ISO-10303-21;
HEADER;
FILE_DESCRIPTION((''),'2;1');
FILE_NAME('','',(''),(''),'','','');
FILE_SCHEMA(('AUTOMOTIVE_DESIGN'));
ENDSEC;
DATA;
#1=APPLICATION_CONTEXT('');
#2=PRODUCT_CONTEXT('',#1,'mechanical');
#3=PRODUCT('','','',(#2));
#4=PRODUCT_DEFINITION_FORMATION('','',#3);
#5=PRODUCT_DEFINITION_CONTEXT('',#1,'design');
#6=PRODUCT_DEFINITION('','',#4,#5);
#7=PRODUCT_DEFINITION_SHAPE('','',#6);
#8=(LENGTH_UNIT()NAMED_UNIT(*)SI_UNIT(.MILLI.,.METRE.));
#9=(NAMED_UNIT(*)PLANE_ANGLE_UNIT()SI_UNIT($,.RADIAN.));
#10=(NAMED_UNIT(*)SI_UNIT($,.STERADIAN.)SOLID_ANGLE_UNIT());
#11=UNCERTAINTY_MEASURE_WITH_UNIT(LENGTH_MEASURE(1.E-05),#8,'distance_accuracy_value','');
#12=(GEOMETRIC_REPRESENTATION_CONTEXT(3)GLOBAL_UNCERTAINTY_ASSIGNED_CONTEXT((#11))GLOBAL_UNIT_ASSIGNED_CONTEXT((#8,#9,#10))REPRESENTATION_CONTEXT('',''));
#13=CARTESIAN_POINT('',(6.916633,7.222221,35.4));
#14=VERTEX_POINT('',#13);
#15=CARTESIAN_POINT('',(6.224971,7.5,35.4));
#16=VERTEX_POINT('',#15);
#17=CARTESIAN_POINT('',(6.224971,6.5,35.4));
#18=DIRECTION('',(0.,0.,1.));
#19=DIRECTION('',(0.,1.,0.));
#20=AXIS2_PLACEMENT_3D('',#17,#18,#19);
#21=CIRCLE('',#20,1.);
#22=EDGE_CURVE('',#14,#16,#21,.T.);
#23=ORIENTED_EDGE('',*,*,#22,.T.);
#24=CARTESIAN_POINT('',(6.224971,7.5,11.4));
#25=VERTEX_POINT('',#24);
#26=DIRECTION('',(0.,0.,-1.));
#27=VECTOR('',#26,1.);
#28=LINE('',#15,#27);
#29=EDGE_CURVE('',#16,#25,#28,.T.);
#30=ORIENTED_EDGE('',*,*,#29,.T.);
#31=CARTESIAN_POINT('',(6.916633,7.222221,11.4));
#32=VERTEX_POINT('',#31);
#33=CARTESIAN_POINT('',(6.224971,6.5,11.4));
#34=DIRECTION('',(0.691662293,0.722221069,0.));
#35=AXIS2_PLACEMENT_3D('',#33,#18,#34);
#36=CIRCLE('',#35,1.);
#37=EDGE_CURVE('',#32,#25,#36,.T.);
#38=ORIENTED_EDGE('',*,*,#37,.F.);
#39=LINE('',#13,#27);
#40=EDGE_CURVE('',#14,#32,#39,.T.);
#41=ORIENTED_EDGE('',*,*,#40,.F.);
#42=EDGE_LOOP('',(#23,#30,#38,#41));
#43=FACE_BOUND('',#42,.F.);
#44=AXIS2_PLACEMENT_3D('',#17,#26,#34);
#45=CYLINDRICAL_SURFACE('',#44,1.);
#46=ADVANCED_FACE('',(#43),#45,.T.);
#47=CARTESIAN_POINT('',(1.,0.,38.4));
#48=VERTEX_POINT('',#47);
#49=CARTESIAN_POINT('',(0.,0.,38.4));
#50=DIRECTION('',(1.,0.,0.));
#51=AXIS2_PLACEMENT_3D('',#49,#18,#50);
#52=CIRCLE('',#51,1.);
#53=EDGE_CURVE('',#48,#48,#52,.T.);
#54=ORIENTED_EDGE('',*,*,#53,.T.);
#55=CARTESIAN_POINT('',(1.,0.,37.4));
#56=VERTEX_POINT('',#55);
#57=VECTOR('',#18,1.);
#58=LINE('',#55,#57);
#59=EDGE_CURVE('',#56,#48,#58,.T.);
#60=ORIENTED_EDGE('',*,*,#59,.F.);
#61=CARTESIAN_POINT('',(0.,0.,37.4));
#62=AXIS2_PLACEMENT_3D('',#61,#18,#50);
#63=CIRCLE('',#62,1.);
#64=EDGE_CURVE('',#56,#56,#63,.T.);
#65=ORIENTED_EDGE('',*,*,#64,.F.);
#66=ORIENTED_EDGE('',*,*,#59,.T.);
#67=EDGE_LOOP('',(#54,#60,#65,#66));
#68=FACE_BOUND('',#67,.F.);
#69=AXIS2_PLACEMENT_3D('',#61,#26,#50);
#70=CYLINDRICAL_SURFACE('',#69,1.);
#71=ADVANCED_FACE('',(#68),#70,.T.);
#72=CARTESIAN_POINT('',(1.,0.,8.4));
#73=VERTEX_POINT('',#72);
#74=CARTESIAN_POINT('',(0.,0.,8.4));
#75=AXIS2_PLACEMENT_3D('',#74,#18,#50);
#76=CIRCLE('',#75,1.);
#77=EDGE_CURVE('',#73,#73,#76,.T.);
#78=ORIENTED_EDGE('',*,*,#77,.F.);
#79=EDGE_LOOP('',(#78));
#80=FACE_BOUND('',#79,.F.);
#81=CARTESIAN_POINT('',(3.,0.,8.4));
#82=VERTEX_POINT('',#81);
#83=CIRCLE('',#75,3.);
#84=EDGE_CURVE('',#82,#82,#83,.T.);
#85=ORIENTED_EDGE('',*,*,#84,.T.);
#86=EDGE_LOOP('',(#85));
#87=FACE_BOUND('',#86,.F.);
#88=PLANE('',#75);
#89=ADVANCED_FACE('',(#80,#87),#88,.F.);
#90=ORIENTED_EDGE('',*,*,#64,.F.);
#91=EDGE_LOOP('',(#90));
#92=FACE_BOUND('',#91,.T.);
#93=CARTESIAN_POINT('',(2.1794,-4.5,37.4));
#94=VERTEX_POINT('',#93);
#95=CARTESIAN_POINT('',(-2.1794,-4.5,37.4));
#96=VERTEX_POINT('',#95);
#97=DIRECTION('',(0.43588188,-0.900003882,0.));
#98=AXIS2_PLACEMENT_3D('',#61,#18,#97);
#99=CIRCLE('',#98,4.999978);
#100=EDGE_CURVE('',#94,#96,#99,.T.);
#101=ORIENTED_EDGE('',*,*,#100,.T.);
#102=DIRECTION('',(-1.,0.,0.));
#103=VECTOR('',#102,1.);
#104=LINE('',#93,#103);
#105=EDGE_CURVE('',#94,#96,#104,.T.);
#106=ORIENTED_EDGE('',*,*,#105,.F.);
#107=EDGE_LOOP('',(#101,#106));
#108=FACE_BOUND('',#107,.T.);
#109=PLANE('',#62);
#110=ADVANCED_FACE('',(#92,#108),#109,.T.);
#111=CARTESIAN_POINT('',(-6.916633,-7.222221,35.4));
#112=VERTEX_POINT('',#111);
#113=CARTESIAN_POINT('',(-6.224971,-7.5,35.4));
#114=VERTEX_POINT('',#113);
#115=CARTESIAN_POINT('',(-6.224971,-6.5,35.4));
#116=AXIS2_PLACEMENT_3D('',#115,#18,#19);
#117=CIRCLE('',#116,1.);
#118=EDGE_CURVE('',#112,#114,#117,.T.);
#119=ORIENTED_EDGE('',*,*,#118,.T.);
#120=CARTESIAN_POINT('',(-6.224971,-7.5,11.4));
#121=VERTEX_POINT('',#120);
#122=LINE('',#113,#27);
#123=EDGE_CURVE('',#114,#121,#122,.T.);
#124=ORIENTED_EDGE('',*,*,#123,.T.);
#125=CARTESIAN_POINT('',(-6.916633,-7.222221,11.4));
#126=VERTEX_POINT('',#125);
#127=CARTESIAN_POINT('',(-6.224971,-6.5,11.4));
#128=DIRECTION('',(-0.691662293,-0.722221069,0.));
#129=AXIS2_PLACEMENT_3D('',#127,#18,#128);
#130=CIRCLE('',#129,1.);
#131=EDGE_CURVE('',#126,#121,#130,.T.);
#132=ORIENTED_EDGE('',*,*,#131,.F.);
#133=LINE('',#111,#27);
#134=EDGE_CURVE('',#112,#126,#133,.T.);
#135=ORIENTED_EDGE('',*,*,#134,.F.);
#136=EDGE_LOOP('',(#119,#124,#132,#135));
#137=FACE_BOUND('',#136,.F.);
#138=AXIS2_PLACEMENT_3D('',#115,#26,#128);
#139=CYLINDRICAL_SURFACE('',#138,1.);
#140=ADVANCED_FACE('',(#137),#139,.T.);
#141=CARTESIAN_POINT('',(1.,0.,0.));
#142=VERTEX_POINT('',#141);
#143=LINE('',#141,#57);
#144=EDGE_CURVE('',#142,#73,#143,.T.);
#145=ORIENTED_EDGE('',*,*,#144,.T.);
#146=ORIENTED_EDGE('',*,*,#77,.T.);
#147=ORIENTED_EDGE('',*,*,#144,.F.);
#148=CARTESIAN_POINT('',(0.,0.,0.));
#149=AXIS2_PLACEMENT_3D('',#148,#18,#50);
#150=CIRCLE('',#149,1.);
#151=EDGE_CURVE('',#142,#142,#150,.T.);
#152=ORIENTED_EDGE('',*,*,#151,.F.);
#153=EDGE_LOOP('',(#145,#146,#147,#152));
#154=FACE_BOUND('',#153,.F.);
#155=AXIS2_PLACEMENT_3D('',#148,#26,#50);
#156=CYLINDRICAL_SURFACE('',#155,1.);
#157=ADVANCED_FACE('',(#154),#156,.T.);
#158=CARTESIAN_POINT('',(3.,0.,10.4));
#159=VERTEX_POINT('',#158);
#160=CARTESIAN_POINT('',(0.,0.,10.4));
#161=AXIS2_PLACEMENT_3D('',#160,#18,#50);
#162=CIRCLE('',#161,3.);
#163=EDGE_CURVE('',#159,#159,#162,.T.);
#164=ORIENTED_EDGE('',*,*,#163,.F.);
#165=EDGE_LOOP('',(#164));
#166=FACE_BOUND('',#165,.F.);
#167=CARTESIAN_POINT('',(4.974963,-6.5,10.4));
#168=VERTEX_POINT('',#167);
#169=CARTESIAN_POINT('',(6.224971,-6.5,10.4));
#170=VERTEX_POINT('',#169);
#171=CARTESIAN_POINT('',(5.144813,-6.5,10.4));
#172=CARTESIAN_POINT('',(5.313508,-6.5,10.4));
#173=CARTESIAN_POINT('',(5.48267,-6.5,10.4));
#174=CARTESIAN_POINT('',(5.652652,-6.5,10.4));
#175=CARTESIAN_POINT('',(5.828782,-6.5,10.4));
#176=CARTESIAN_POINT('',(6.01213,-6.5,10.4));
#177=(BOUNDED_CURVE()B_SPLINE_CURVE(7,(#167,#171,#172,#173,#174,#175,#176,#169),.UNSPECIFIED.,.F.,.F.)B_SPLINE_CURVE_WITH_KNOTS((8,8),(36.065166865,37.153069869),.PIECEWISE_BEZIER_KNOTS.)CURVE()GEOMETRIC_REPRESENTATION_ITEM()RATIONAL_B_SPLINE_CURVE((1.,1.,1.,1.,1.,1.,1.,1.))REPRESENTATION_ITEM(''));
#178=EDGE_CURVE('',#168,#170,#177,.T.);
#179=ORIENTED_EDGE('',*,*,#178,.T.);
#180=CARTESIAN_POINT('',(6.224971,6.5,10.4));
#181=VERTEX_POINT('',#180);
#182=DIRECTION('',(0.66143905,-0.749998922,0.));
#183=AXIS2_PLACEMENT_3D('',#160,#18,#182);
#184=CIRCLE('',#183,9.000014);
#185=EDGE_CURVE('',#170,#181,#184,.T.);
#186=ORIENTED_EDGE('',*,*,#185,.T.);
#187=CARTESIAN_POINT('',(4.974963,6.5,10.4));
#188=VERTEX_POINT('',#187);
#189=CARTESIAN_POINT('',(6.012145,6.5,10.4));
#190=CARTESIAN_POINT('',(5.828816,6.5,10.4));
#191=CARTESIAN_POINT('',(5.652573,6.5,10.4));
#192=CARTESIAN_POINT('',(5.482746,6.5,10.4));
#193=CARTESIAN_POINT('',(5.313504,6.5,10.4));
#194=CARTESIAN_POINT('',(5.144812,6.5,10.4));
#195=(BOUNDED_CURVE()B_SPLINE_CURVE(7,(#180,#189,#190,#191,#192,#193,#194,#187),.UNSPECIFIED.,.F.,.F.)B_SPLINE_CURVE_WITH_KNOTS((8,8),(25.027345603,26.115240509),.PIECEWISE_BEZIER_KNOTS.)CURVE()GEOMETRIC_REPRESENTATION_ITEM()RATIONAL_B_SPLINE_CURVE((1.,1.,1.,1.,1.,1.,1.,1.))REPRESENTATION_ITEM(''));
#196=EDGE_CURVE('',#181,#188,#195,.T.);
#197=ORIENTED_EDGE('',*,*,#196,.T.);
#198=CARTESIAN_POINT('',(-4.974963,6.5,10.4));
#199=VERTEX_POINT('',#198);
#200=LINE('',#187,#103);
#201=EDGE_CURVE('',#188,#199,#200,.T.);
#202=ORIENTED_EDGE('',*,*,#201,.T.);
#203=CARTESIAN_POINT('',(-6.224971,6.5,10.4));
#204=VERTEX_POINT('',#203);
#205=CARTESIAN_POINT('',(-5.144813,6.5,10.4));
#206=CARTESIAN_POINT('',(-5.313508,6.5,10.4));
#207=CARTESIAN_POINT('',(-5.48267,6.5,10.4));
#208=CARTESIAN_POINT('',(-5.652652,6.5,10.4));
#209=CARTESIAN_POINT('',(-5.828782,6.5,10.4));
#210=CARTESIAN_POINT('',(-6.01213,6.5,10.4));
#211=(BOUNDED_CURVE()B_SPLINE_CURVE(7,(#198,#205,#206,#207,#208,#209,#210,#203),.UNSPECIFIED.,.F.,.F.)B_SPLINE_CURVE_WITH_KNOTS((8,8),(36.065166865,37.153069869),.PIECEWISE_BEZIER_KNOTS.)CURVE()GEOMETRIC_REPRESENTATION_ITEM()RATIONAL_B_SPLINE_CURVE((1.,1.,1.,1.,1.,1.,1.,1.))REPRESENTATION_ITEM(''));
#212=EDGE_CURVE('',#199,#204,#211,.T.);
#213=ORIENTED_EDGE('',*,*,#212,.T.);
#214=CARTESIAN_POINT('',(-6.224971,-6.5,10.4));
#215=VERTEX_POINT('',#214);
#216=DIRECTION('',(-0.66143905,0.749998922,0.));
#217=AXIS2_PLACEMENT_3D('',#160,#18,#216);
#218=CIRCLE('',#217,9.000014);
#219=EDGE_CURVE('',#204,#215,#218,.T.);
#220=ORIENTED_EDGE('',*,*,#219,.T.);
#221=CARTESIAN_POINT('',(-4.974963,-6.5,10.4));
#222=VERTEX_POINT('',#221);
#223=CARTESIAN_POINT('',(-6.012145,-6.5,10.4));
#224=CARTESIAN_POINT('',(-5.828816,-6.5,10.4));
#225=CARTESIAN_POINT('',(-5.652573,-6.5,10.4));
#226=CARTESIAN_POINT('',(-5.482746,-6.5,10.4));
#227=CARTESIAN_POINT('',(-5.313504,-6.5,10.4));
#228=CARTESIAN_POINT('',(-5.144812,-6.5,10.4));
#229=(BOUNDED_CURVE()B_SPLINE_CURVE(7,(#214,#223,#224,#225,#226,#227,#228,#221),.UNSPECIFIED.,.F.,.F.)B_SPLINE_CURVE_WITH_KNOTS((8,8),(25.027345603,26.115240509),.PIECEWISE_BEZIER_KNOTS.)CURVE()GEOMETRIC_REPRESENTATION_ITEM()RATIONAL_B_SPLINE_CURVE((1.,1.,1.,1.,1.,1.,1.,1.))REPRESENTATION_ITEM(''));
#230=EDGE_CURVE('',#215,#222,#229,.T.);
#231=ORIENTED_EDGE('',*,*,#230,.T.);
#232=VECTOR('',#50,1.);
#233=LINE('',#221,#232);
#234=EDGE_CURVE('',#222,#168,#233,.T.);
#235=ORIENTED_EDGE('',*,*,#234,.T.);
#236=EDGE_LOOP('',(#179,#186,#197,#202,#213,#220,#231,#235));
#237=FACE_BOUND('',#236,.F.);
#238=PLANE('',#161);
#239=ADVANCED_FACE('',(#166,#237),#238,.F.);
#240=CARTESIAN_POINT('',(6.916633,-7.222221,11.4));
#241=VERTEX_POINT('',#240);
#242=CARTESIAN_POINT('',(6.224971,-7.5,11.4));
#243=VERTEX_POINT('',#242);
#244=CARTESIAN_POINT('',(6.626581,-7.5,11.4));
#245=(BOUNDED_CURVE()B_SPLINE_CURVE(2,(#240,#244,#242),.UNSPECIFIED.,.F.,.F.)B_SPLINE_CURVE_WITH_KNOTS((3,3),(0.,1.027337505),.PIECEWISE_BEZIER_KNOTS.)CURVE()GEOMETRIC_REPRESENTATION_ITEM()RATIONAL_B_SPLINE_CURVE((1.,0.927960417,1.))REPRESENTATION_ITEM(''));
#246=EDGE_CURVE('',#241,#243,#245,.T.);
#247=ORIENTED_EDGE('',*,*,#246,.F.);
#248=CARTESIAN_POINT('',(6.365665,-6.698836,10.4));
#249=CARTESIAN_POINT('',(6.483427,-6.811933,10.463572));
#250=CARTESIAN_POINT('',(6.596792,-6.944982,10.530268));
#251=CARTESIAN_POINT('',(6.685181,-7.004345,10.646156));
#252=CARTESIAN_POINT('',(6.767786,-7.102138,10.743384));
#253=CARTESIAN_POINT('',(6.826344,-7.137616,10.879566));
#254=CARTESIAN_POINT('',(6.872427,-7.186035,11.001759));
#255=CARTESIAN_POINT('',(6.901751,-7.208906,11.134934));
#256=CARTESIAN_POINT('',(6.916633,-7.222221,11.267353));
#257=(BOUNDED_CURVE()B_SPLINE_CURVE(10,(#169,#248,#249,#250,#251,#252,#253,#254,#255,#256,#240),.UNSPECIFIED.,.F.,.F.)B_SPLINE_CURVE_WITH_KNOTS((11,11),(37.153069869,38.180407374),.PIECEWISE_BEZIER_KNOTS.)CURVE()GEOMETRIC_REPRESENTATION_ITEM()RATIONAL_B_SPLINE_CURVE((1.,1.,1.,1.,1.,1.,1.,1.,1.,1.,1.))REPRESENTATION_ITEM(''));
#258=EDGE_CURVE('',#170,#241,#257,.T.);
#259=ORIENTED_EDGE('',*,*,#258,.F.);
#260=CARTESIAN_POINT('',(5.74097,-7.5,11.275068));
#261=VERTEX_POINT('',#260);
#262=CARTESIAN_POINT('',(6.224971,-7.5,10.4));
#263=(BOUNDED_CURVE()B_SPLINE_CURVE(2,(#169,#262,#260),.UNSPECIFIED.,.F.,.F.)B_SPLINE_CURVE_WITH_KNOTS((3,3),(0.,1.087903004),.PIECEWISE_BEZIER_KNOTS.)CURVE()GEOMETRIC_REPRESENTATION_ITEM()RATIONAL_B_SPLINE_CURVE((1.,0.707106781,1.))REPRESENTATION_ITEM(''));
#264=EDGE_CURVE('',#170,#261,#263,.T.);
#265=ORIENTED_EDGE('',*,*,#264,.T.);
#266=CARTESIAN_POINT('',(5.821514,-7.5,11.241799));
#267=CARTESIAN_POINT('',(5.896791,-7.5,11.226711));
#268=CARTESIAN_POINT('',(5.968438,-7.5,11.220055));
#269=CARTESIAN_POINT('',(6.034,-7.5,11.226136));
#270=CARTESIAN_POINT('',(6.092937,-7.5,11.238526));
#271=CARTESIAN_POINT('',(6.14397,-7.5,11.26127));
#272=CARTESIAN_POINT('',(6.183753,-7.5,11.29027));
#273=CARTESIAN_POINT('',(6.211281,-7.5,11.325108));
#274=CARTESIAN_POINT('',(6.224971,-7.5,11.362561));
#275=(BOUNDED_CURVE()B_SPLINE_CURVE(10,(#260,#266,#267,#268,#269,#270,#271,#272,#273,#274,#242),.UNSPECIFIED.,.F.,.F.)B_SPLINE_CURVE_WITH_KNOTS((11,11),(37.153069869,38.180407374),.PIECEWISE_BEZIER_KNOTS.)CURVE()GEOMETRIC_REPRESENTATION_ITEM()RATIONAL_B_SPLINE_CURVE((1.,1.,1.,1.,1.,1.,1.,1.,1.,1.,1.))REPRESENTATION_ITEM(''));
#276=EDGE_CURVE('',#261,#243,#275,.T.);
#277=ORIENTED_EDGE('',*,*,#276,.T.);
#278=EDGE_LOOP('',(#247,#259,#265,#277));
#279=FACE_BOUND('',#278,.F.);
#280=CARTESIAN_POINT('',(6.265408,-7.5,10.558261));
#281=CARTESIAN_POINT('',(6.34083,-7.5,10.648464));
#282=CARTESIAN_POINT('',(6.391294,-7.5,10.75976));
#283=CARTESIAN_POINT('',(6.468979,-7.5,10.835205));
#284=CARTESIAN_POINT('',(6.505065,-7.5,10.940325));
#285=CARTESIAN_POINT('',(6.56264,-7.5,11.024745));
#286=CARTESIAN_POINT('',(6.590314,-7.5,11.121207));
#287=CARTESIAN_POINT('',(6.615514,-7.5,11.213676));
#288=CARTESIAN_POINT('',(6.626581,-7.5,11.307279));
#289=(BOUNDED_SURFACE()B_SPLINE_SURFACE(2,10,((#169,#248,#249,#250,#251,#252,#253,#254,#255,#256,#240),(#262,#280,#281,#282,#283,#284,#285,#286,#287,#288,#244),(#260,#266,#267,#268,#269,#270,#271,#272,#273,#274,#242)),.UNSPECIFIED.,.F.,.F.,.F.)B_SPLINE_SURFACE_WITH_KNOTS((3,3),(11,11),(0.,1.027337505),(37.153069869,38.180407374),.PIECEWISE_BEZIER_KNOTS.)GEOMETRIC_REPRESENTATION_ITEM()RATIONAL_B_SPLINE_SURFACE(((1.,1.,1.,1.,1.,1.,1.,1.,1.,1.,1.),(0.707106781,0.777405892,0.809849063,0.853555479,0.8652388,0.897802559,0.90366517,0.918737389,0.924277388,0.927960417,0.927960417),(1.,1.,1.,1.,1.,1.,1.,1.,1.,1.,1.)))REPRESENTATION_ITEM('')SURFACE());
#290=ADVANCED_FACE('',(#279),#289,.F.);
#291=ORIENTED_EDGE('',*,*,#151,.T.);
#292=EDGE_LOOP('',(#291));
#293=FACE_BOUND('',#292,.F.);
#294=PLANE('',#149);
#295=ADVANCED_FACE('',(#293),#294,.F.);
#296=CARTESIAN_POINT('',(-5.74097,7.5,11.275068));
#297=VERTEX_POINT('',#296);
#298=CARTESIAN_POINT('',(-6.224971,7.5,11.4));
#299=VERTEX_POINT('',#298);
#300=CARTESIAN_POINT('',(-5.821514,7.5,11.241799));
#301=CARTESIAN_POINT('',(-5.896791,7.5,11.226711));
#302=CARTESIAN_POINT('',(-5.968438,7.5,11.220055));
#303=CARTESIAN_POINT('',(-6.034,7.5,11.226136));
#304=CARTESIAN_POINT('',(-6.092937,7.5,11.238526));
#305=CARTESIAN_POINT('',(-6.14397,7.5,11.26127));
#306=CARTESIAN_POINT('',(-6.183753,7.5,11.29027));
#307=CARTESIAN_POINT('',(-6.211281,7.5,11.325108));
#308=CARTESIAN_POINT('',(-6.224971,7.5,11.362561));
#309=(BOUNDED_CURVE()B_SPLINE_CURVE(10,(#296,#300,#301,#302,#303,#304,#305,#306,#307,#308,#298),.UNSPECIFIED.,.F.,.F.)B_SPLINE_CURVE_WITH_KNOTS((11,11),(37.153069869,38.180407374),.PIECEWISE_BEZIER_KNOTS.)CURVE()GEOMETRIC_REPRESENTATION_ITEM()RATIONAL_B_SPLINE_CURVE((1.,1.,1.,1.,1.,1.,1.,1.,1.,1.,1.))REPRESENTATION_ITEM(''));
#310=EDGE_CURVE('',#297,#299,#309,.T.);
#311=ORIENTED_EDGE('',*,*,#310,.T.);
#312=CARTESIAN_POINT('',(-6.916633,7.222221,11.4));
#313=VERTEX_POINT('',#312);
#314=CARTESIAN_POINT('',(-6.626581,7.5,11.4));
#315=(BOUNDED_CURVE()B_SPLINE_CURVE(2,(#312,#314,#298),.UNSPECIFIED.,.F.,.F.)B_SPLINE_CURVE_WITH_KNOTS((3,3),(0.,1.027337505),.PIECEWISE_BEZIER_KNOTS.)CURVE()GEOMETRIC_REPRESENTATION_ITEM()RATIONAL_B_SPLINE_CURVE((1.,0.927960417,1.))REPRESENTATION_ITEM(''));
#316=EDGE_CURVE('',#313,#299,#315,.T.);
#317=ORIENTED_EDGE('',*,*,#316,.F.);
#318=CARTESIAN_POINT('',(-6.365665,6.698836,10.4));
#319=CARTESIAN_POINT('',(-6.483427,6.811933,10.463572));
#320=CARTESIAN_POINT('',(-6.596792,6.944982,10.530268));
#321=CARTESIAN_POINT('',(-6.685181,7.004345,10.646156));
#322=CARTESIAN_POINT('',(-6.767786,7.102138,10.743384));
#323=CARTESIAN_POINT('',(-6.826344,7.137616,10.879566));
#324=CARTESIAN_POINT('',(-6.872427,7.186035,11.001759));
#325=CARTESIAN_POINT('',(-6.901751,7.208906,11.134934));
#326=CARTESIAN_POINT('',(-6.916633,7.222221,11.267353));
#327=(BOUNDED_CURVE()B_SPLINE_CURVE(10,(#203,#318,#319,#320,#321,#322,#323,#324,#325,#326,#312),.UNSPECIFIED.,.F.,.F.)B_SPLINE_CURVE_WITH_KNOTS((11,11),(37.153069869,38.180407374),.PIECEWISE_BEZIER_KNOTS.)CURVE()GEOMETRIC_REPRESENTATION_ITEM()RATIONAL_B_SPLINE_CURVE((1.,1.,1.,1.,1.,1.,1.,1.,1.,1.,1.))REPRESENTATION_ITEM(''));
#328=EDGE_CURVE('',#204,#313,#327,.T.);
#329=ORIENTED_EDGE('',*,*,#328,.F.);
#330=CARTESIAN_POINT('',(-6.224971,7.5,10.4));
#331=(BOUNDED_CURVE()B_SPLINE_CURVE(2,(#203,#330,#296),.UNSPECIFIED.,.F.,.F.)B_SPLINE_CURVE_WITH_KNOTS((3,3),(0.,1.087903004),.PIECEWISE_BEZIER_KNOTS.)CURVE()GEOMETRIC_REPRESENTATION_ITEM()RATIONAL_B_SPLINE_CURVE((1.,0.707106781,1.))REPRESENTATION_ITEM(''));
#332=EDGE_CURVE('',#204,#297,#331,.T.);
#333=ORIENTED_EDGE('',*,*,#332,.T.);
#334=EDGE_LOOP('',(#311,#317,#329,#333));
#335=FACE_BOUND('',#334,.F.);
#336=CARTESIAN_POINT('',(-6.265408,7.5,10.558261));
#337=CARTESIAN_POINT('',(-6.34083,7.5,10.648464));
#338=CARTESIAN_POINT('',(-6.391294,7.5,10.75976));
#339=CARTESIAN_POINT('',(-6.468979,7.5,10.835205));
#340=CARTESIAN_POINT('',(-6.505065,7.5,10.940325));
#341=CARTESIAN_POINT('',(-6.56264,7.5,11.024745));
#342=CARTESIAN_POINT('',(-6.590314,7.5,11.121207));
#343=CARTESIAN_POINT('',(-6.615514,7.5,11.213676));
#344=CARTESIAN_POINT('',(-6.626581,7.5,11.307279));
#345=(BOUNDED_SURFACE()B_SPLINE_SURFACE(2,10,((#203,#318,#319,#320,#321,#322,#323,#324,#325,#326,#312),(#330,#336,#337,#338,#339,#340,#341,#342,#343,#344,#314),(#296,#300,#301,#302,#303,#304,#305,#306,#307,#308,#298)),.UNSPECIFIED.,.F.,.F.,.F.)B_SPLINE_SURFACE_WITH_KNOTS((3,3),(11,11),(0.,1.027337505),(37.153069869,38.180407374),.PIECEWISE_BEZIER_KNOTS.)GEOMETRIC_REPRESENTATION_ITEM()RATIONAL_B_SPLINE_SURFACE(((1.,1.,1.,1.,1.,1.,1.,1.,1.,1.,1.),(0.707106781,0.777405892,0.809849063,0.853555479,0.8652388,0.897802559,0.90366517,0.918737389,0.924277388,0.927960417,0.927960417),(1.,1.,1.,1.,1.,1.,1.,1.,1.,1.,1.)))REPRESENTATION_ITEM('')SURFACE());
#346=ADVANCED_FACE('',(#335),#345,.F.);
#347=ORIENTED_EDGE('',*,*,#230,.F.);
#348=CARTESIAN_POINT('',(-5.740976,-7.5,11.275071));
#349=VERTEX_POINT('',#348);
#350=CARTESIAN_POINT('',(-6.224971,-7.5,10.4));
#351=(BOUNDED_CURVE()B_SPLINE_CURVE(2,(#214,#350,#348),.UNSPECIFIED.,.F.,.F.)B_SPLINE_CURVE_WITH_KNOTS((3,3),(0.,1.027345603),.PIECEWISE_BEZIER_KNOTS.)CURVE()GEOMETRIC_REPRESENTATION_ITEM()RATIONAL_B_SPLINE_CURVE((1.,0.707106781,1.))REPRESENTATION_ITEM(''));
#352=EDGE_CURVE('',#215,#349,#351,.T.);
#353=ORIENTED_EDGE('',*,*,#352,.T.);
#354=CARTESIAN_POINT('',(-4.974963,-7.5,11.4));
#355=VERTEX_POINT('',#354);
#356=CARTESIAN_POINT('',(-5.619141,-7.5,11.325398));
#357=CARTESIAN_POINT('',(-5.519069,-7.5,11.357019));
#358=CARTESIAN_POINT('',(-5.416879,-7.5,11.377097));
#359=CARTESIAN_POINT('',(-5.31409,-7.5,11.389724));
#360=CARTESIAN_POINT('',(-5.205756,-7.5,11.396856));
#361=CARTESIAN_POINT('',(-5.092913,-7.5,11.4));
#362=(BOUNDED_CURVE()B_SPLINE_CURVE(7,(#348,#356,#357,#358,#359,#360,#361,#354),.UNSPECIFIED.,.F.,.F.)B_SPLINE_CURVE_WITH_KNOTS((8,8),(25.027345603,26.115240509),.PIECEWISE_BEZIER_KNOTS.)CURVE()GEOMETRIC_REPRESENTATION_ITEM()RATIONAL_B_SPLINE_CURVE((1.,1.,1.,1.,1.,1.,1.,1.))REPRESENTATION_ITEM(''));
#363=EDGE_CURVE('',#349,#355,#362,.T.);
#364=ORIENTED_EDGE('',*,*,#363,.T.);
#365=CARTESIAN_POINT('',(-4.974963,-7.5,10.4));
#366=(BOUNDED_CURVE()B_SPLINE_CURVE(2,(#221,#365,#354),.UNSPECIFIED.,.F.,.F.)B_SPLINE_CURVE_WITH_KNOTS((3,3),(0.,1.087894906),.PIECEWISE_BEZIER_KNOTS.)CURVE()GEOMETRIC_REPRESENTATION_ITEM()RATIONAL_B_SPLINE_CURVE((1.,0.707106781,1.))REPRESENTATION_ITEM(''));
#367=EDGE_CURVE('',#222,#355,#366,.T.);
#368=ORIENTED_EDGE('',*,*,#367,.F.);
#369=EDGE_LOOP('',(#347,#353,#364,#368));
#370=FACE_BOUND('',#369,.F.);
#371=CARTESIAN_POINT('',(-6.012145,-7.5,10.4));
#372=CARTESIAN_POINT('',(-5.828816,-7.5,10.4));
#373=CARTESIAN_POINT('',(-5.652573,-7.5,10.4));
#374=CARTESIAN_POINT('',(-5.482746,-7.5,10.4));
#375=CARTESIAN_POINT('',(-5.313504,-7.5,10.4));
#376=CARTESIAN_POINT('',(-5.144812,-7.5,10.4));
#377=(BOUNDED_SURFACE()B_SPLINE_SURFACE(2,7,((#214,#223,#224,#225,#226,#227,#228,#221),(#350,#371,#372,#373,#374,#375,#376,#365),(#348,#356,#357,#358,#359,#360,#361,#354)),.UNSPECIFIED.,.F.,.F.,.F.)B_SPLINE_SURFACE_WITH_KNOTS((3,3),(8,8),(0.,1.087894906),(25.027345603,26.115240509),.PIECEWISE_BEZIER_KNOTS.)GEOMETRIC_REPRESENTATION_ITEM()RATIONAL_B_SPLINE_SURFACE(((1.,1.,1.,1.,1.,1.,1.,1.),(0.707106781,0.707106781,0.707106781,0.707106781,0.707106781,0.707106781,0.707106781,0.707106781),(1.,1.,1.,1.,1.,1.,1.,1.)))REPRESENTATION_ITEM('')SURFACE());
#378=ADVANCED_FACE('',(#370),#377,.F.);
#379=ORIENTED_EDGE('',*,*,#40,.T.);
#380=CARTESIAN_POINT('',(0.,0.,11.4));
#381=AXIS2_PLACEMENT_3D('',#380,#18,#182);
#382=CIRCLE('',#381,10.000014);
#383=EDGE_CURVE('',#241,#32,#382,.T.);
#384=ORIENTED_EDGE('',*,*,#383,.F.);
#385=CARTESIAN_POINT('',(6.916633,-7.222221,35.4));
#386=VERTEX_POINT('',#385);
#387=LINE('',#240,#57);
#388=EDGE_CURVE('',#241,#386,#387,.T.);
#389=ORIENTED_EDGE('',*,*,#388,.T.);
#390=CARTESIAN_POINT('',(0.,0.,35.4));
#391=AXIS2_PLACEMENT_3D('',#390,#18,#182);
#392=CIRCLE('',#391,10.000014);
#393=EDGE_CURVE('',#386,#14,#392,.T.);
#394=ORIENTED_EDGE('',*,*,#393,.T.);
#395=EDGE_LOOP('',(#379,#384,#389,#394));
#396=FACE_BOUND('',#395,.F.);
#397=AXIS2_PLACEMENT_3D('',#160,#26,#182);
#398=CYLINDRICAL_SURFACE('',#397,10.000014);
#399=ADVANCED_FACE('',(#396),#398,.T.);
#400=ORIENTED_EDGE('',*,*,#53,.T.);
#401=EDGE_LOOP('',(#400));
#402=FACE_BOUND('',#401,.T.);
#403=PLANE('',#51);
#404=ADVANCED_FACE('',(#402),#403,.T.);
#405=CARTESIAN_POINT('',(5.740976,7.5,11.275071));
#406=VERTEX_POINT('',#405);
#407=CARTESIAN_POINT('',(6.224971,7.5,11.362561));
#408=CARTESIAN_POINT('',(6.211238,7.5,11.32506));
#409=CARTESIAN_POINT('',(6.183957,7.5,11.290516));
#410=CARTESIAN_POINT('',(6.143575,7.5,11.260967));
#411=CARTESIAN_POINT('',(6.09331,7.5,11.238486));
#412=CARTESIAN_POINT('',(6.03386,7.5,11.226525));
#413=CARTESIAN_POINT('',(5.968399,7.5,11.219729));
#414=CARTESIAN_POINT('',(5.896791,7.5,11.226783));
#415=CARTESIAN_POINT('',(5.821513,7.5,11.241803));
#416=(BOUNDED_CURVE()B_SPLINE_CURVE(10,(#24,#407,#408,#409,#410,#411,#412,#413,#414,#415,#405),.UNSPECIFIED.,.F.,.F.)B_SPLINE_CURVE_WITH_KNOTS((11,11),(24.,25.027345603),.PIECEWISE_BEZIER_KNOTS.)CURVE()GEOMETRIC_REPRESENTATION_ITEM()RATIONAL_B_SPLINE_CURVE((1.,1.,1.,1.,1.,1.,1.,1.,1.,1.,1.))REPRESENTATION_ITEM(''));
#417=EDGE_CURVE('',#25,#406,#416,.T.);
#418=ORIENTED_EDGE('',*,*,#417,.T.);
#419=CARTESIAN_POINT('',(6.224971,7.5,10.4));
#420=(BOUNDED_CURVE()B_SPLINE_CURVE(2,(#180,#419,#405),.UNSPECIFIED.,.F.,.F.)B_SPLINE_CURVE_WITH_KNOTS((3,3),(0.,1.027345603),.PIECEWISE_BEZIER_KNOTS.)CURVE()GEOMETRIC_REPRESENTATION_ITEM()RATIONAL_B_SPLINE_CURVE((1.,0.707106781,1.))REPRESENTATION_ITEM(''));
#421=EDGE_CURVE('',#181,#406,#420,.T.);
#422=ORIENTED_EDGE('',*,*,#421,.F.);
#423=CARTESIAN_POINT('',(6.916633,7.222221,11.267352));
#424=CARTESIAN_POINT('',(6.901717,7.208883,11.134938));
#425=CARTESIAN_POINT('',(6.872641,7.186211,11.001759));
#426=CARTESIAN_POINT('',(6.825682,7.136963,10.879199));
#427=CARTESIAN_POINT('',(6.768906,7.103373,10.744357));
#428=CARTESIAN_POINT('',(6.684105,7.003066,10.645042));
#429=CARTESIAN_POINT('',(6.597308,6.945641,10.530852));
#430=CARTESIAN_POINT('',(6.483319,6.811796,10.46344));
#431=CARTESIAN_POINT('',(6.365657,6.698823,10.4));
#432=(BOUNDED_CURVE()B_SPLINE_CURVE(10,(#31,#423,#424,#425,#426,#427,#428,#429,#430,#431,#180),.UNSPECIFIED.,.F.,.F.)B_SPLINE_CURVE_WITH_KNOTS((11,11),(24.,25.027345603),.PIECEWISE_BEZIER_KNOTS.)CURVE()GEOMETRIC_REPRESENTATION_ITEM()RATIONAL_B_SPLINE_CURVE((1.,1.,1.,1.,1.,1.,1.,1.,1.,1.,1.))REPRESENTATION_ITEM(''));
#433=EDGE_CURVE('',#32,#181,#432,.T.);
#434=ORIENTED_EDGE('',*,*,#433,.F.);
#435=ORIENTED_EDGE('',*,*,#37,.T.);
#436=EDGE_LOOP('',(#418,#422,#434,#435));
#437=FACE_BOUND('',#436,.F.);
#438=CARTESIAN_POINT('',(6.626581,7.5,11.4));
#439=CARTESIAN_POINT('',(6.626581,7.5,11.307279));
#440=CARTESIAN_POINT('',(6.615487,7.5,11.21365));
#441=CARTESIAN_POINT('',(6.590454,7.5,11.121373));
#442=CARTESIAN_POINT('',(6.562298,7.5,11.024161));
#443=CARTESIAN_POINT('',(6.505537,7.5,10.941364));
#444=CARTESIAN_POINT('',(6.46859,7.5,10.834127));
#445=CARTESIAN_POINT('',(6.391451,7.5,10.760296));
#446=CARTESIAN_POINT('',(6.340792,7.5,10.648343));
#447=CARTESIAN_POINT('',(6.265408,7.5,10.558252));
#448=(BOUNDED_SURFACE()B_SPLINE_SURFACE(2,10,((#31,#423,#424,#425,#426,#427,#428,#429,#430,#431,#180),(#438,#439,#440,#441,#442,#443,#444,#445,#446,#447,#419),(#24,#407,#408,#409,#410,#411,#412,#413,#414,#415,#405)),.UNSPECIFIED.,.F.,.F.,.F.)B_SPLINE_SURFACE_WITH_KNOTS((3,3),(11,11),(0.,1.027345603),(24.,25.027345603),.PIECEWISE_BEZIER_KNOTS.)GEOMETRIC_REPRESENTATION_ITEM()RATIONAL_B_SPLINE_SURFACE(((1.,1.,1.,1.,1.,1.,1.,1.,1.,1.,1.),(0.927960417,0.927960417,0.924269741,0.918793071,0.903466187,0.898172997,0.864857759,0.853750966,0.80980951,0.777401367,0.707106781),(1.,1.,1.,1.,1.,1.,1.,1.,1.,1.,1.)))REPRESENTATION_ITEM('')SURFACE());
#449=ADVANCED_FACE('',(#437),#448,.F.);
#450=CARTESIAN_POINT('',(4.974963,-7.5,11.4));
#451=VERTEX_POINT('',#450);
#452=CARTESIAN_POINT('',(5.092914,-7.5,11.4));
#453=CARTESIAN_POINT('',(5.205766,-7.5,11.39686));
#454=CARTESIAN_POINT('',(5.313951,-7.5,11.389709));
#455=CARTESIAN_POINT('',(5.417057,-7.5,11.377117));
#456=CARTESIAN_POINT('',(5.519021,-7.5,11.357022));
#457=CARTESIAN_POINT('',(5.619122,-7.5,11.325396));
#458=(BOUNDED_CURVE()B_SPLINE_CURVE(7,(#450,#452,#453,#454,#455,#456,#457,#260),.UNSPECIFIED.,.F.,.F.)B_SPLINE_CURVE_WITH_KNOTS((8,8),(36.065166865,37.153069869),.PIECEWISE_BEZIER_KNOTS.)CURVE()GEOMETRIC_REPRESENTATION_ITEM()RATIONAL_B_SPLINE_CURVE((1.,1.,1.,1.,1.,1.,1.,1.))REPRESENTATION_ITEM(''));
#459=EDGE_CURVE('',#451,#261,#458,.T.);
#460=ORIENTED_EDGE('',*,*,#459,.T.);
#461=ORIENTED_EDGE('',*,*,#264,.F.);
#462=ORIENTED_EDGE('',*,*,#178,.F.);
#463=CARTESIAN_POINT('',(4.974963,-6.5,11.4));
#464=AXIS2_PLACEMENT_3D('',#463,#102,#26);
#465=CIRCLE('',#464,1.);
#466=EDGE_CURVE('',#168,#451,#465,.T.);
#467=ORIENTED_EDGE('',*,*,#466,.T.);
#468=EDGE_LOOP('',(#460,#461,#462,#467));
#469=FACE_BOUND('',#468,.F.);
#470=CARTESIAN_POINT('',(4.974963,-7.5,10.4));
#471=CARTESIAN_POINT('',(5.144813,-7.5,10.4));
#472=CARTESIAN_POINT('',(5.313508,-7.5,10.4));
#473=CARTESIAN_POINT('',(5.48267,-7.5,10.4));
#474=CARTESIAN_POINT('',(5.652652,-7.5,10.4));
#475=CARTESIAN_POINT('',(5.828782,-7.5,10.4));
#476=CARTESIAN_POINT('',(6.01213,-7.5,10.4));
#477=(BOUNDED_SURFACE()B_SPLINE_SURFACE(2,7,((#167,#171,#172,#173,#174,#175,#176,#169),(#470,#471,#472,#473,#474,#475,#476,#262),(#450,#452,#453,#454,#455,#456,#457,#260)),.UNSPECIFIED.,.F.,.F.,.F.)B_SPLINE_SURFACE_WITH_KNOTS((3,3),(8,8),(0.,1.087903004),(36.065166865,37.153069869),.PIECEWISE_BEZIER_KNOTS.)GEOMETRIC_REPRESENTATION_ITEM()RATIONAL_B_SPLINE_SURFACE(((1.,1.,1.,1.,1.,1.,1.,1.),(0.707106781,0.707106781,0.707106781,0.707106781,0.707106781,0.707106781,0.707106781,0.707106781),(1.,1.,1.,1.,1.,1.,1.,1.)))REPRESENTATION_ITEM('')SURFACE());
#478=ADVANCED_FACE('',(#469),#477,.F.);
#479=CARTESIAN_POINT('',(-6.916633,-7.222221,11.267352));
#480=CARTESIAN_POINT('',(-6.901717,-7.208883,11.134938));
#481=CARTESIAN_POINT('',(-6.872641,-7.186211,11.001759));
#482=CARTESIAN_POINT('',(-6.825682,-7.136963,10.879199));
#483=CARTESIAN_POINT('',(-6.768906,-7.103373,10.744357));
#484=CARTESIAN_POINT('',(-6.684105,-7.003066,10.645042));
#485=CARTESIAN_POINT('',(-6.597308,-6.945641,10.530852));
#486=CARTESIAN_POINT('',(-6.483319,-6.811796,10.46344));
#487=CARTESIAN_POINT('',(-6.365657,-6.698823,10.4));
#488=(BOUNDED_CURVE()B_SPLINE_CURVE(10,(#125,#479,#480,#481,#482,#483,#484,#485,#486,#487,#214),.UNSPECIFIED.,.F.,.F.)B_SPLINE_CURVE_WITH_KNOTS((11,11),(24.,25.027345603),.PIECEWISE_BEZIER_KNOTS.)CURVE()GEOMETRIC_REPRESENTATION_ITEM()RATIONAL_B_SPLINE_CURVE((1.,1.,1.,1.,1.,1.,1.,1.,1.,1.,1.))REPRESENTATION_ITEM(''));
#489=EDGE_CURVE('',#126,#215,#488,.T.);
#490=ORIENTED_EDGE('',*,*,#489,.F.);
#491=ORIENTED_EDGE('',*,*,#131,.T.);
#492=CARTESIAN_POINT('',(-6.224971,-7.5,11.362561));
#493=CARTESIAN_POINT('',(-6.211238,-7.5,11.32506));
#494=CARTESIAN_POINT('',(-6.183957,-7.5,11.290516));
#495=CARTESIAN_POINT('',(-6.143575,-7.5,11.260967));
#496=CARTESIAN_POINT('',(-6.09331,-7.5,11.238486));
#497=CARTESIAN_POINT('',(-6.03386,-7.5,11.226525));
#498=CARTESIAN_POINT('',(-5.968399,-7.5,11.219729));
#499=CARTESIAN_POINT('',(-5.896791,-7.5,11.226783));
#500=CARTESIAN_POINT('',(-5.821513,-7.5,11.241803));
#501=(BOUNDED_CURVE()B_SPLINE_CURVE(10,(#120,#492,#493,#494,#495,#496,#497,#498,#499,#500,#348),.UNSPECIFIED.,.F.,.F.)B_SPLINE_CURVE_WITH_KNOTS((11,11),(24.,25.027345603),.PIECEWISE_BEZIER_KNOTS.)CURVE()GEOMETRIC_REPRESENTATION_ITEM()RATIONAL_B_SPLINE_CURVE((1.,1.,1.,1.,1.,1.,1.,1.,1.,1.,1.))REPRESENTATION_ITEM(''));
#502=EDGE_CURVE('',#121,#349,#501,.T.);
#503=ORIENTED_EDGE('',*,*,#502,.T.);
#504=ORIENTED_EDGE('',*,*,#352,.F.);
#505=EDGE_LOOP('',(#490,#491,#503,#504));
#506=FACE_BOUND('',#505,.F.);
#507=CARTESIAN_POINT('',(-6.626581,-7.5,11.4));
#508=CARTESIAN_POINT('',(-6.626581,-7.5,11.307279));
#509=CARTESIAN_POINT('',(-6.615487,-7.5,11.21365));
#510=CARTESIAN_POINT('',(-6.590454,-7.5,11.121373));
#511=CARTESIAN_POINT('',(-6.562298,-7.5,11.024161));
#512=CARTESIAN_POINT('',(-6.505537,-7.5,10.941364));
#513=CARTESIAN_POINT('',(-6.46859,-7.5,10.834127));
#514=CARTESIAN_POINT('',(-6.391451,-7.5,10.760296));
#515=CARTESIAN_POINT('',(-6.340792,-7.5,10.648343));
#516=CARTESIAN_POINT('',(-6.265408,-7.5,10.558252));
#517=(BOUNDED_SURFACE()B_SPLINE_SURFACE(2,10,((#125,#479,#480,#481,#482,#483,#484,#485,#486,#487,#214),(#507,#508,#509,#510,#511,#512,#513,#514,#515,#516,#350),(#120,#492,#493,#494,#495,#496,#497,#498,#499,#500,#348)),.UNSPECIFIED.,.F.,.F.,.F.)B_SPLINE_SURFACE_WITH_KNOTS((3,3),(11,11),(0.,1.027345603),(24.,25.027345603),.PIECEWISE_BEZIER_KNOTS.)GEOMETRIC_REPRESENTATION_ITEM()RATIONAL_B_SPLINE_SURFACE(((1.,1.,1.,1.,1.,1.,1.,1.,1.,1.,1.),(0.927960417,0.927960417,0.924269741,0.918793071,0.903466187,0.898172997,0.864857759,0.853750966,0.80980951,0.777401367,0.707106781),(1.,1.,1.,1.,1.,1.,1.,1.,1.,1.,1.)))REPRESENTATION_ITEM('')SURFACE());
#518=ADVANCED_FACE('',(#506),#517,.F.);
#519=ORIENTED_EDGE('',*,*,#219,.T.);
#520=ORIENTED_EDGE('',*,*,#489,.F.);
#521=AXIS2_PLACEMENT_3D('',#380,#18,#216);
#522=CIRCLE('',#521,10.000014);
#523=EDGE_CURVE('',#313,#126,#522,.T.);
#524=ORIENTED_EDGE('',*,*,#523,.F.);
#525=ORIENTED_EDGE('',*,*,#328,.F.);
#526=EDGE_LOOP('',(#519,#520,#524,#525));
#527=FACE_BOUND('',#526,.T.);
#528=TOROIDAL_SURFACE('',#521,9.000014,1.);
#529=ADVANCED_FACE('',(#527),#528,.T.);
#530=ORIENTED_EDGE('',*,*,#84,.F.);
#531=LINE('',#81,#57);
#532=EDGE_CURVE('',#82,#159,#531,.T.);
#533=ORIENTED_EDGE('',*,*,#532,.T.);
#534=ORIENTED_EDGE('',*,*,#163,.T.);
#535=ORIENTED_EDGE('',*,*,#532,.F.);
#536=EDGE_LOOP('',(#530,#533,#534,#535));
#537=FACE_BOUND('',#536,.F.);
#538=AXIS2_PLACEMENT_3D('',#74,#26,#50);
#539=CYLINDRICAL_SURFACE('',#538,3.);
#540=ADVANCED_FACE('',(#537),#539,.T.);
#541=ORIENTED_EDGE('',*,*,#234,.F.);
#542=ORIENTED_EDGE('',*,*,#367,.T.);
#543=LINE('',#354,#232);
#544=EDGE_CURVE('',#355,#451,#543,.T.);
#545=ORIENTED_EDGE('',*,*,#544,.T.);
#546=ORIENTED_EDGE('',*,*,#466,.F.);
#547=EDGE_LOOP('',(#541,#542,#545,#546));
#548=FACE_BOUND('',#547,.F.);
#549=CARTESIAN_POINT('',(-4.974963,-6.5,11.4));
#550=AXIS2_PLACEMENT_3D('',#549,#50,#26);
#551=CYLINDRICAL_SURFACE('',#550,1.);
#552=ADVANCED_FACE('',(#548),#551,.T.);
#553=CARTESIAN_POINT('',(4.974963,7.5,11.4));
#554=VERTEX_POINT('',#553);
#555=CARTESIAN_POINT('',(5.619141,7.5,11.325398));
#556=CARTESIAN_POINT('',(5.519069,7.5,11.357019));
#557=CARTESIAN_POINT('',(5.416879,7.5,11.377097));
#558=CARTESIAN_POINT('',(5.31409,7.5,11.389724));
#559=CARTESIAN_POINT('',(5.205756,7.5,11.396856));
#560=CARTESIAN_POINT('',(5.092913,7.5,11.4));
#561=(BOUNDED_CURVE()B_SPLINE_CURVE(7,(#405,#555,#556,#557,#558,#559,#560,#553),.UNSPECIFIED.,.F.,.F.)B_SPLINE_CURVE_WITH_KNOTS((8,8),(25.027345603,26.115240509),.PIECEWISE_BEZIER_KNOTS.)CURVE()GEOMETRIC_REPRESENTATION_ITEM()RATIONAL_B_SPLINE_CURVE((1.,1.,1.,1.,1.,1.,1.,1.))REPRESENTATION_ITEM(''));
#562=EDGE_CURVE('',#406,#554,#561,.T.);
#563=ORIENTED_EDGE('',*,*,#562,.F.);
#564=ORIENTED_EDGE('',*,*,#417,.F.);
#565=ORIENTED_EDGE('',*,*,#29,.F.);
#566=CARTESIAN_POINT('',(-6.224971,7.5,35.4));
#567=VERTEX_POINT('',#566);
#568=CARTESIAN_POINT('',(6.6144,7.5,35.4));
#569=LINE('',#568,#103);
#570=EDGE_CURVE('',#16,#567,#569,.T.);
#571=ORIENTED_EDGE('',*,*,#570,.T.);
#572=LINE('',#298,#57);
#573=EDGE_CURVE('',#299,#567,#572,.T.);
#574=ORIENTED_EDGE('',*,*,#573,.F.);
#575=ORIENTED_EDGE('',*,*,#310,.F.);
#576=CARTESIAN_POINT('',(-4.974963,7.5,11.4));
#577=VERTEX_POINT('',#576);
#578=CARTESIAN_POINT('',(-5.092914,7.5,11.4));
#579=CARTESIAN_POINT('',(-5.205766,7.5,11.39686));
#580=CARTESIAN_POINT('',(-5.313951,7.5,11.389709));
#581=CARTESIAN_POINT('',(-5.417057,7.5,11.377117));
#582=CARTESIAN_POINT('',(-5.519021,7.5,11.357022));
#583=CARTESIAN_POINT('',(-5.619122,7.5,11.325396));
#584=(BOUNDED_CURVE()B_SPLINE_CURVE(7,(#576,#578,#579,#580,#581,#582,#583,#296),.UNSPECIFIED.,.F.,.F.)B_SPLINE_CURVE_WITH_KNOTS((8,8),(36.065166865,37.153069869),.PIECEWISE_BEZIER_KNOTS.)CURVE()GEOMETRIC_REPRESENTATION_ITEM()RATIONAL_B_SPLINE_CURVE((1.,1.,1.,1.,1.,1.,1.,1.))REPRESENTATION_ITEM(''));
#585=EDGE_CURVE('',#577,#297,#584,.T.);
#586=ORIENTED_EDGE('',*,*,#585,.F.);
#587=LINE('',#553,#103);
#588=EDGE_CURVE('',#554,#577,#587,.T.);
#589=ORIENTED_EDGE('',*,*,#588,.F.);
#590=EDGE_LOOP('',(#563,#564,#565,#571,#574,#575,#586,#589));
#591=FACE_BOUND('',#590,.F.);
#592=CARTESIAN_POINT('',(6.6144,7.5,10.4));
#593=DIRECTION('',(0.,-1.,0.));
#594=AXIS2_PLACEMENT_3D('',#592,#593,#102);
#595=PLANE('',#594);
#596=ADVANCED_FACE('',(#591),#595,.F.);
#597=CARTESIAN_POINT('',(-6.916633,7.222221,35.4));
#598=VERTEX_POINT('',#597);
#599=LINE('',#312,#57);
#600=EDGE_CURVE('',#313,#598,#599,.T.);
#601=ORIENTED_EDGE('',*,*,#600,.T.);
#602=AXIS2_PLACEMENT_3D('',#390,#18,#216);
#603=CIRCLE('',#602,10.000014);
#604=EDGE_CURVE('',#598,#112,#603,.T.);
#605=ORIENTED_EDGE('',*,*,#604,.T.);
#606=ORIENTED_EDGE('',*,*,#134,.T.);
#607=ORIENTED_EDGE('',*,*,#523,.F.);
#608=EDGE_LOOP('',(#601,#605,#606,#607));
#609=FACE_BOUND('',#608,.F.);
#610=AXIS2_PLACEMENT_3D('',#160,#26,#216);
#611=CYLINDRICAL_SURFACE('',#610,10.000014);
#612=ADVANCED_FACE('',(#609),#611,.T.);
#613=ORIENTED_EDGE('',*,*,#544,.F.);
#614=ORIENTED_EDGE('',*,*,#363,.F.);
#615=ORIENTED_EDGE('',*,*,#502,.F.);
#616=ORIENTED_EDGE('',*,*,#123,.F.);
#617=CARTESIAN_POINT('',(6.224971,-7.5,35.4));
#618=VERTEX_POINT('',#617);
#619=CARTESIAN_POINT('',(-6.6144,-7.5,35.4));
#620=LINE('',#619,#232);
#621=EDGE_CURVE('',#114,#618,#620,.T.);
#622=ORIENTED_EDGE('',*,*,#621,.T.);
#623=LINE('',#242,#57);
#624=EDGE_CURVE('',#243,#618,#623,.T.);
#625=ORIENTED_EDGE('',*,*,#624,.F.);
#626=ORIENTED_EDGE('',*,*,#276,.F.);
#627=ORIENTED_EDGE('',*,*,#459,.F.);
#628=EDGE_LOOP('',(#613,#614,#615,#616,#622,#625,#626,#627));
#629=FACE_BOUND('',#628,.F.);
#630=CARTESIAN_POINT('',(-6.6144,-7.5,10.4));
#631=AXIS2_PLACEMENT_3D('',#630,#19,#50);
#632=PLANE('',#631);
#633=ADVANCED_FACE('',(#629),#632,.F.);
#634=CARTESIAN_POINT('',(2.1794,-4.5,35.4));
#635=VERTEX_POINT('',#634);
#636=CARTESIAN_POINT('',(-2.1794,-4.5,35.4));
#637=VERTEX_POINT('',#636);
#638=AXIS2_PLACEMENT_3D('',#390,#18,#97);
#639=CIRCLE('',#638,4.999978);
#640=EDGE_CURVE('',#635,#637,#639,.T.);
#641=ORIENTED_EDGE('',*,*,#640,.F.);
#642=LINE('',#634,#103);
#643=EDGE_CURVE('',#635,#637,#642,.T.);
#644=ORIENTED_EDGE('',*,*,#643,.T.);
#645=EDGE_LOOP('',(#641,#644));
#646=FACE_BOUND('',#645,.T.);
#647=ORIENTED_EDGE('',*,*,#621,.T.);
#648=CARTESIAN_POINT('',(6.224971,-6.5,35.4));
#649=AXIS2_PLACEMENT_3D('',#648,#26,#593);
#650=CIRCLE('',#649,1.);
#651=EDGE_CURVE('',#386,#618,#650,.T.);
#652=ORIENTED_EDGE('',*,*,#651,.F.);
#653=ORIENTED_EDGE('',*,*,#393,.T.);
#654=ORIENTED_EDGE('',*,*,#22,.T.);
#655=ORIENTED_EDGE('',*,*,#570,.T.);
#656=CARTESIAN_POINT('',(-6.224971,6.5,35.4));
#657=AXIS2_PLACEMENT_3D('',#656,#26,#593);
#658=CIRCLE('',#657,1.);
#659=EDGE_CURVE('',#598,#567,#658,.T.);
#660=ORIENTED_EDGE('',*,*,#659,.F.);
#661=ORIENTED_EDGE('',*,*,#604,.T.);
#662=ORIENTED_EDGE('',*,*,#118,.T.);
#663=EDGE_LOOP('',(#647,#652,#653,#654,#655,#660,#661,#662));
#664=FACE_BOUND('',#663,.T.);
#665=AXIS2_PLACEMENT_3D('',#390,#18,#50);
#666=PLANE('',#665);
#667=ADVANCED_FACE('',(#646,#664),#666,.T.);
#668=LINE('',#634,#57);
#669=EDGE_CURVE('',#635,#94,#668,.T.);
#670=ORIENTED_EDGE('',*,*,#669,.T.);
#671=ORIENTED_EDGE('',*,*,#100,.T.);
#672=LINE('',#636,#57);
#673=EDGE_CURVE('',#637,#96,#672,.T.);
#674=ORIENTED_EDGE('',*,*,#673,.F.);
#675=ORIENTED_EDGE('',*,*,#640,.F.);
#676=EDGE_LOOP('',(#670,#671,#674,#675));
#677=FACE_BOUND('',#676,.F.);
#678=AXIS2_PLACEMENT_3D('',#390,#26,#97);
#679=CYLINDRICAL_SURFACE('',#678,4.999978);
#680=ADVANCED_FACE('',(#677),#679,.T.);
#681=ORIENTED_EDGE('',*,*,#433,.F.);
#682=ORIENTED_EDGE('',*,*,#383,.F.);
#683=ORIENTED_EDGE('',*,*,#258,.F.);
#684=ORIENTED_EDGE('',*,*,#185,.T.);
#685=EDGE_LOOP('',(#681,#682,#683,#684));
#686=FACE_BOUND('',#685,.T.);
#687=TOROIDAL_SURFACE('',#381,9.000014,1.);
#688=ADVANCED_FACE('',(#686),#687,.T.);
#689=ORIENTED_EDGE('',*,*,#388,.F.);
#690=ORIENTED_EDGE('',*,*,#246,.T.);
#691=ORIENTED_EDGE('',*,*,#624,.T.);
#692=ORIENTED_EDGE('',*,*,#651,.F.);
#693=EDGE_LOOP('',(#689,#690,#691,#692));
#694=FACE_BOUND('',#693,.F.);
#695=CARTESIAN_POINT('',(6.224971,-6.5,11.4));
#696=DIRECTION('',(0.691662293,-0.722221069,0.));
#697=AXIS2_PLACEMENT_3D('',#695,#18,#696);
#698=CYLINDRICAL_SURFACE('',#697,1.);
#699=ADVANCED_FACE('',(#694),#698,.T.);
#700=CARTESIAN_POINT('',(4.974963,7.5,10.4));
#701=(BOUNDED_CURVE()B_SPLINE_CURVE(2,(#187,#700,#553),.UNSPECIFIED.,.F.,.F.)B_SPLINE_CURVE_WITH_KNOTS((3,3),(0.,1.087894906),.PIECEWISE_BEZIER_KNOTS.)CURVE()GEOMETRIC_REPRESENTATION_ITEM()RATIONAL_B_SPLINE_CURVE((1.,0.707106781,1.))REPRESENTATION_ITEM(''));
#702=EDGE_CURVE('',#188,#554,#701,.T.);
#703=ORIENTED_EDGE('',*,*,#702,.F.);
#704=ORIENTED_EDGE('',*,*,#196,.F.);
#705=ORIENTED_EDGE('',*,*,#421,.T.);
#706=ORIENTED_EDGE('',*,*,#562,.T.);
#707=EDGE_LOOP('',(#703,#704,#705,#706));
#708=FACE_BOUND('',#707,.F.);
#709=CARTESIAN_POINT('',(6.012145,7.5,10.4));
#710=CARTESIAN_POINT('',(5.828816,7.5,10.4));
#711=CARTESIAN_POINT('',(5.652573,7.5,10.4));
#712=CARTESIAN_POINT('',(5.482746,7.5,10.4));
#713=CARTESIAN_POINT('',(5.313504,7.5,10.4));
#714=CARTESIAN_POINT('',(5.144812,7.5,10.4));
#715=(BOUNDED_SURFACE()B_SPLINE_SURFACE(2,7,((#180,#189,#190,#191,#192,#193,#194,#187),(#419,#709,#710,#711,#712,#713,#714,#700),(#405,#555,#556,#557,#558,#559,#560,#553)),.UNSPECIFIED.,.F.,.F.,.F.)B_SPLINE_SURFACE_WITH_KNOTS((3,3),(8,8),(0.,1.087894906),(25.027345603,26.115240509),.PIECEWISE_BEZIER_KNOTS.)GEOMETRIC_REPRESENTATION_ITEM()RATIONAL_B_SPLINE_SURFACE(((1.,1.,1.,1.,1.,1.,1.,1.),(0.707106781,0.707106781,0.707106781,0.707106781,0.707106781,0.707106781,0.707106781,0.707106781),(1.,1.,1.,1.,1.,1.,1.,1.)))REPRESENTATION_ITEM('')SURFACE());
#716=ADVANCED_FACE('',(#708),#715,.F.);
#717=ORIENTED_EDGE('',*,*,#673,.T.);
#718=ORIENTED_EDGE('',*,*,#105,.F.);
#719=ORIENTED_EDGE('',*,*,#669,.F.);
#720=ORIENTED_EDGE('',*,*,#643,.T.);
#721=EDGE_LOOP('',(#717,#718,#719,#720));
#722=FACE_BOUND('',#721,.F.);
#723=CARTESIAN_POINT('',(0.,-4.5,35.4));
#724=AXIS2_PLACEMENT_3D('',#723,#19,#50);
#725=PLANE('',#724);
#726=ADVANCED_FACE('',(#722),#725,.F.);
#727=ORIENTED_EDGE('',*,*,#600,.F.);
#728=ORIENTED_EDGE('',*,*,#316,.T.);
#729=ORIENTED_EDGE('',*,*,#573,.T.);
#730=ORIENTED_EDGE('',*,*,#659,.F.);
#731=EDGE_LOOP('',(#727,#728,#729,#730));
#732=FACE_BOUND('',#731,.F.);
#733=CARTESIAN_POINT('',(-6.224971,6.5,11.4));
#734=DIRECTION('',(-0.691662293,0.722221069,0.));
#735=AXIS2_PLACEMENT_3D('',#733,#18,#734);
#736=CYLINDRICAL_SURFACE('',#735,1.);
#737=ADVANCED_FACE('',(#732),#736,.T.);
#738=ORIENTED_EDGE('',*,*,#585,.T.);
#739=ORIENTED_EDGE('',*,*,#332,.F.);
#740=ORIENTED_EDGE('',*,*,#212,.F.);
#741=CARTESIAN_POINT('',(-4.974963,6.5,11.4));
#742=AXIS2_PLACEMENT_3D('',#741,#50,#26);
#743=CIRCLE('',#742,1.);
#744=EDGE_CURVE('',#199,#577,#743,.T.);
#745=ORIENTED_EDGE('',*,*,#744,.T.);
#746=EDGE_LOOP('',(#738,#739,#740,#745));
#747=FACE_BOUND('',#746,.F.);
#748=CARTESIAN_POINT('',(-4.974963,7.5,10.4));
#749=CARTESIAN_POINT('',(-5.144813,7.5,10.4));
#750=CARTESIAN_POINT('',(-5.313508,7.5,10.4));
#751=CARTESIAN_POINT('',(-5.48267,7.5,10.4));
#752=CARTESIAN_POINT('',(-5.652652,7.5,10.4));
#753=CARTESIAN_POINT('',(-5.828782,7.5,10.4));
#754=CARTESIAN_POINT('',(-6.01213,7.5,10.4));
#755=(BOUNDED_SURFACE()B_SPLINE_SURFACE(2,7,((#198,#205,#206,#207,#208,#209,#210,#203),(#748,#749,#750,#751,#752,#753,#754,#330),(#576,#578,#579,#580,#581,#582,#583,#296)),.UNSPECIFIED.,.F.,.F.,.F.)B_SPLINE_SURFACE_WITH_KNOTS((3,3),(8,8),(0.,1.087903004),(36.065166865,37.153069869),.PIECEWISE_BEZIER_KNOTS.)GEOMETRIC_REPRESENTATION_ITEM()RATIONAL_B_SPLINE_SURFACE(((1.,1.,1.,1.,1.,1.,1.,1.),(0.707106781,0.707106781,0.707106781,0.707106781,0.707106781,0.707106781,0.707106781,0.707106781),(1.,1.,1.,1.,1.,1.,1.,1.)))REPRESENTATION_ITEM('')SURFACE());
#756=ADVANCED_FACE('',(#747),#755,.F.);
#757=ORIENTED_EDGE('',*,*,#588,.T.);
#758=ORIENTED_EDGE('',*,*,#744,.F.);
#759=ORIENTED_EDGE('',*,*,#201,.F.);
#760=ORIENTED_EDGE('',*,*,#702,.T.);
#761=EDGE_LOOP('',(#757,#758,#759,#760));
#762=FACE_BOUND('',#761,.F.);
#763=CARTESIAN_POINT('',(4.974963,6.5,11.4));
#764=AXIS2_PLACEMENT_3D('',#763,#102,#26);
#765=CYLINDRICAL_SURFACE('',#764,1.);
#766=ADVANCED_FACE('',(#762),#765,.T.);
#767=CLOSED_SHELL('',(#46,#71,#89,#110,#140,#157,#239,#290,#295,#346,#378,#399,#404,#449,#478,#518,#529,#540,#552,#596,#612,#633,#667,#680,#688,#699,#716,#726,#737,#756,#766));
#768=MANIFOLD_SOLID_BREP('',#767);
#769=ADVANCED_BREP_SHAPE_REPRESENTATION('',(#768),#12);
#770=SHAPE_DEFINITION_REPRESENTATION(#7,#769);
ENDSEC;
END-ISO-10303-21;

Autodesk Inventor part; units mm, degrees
ref_plane "YZ Plane" through (0, 0, 0) normal (1, 0, 0) x (0, 1, 0)
ref_plane "XZ Plane" through (0, 0, 0) normal (0, 1, 0) x (-1, 0, 0)
ref_plane "XY Plane" through (0, 0, 0) normal (0, 0, 1) x (1, 0, 0)
sketch "Sketch1" plane through (0, 0, 0) normal (0, 0, 1) x (1, 0, 0)
  circle A0 centre (0, 0) radius 1
  dimension "d0" = 2
extrude "Extrusion1" add sketch "Sketch1" along normal blind 8.4
sketch "Sketch2" plane through (0, 0, 8.4) normal (0, 0, 1) x (1, 0, 0)
  circle A0 centre (0, 0) radius 3
  dimension "d3" = 6
extrude "Extrusion2" add sketch "Sketch2" along normal blind 2
sketch "Sketch3" plane through (0, 0, 10.4) normal (0, 0, 1) x (1, 0, 0)
  line L0 (-6.6144, -7.5) -> (6.6144, -7.5)
  line L1 (6.6144, 7.5) -> (-6.6144, 7.5)
  line L2 (-10, -7.5) -> (10, 7.5) construction
  line L3 (10, -7.5) -> (-10, 7.5) construction
  arc A0 (-6.6144, 7.5) -> (-6.6144, -7.5) centre (0, 0) ccw
  arc A1 (6.6144, -7.5) -> (6.6144, 7.5) centre (0, 0) ccw
extrude "Extrusion3" add sketch "Sketch3" along normal blind 25
sketch "Sketch4" plane through (0, 0, 35.4) normal (0, 0, 1) x (1, 0, 0)
  arc A0 (2.1794, -4.5) -> (-2.1794, -4.5) centre (0, 0) ccw
  line L0 (0, -4.5) -> (2.1794, -4.5)
  line L1 (0, -4.5) -> (-2.1794, -4.5)
  dimension "d10" = 10
extrude "Extrusion4" add sketch "Sketch4" along normal blind 2
sketch "Sketch5" plane through (0, 0, 37.4) normal (0, 0, 1) x (1, 0, 0)
  circle A0 centre (0, 0) radius 1
  dimension "d14" = 2
extrude "Extrusion5" add sketch "Sketch5" along normal blind 1
fillet "Fillet7" radius 1 1 edges at (10, 0, 10.4)
fillet "Fillet8" radius 1 1 edges at (-10, 0, 10.4)
fillet "Fillet9" radius 1 5 edges at (0, -7.5, 10.4) (-6.0606, -7.5, 10.6339) (-6.6144, -7.5, 23.4) (6.0606, -7.5, 10.6339) (6.6144, -7.5, 23.4)
fillet "Fillet10" radius 1 5 edges at (0, 7.5, 10.4) (6.0606, 7.5, 10.6339) (6.6144, 7.5, 23.4) (-6.0606, 7.5, 10.6339) (-6.6144, 7.5, 23.4)
properties part number "motor" material "Aluminum 6061"
